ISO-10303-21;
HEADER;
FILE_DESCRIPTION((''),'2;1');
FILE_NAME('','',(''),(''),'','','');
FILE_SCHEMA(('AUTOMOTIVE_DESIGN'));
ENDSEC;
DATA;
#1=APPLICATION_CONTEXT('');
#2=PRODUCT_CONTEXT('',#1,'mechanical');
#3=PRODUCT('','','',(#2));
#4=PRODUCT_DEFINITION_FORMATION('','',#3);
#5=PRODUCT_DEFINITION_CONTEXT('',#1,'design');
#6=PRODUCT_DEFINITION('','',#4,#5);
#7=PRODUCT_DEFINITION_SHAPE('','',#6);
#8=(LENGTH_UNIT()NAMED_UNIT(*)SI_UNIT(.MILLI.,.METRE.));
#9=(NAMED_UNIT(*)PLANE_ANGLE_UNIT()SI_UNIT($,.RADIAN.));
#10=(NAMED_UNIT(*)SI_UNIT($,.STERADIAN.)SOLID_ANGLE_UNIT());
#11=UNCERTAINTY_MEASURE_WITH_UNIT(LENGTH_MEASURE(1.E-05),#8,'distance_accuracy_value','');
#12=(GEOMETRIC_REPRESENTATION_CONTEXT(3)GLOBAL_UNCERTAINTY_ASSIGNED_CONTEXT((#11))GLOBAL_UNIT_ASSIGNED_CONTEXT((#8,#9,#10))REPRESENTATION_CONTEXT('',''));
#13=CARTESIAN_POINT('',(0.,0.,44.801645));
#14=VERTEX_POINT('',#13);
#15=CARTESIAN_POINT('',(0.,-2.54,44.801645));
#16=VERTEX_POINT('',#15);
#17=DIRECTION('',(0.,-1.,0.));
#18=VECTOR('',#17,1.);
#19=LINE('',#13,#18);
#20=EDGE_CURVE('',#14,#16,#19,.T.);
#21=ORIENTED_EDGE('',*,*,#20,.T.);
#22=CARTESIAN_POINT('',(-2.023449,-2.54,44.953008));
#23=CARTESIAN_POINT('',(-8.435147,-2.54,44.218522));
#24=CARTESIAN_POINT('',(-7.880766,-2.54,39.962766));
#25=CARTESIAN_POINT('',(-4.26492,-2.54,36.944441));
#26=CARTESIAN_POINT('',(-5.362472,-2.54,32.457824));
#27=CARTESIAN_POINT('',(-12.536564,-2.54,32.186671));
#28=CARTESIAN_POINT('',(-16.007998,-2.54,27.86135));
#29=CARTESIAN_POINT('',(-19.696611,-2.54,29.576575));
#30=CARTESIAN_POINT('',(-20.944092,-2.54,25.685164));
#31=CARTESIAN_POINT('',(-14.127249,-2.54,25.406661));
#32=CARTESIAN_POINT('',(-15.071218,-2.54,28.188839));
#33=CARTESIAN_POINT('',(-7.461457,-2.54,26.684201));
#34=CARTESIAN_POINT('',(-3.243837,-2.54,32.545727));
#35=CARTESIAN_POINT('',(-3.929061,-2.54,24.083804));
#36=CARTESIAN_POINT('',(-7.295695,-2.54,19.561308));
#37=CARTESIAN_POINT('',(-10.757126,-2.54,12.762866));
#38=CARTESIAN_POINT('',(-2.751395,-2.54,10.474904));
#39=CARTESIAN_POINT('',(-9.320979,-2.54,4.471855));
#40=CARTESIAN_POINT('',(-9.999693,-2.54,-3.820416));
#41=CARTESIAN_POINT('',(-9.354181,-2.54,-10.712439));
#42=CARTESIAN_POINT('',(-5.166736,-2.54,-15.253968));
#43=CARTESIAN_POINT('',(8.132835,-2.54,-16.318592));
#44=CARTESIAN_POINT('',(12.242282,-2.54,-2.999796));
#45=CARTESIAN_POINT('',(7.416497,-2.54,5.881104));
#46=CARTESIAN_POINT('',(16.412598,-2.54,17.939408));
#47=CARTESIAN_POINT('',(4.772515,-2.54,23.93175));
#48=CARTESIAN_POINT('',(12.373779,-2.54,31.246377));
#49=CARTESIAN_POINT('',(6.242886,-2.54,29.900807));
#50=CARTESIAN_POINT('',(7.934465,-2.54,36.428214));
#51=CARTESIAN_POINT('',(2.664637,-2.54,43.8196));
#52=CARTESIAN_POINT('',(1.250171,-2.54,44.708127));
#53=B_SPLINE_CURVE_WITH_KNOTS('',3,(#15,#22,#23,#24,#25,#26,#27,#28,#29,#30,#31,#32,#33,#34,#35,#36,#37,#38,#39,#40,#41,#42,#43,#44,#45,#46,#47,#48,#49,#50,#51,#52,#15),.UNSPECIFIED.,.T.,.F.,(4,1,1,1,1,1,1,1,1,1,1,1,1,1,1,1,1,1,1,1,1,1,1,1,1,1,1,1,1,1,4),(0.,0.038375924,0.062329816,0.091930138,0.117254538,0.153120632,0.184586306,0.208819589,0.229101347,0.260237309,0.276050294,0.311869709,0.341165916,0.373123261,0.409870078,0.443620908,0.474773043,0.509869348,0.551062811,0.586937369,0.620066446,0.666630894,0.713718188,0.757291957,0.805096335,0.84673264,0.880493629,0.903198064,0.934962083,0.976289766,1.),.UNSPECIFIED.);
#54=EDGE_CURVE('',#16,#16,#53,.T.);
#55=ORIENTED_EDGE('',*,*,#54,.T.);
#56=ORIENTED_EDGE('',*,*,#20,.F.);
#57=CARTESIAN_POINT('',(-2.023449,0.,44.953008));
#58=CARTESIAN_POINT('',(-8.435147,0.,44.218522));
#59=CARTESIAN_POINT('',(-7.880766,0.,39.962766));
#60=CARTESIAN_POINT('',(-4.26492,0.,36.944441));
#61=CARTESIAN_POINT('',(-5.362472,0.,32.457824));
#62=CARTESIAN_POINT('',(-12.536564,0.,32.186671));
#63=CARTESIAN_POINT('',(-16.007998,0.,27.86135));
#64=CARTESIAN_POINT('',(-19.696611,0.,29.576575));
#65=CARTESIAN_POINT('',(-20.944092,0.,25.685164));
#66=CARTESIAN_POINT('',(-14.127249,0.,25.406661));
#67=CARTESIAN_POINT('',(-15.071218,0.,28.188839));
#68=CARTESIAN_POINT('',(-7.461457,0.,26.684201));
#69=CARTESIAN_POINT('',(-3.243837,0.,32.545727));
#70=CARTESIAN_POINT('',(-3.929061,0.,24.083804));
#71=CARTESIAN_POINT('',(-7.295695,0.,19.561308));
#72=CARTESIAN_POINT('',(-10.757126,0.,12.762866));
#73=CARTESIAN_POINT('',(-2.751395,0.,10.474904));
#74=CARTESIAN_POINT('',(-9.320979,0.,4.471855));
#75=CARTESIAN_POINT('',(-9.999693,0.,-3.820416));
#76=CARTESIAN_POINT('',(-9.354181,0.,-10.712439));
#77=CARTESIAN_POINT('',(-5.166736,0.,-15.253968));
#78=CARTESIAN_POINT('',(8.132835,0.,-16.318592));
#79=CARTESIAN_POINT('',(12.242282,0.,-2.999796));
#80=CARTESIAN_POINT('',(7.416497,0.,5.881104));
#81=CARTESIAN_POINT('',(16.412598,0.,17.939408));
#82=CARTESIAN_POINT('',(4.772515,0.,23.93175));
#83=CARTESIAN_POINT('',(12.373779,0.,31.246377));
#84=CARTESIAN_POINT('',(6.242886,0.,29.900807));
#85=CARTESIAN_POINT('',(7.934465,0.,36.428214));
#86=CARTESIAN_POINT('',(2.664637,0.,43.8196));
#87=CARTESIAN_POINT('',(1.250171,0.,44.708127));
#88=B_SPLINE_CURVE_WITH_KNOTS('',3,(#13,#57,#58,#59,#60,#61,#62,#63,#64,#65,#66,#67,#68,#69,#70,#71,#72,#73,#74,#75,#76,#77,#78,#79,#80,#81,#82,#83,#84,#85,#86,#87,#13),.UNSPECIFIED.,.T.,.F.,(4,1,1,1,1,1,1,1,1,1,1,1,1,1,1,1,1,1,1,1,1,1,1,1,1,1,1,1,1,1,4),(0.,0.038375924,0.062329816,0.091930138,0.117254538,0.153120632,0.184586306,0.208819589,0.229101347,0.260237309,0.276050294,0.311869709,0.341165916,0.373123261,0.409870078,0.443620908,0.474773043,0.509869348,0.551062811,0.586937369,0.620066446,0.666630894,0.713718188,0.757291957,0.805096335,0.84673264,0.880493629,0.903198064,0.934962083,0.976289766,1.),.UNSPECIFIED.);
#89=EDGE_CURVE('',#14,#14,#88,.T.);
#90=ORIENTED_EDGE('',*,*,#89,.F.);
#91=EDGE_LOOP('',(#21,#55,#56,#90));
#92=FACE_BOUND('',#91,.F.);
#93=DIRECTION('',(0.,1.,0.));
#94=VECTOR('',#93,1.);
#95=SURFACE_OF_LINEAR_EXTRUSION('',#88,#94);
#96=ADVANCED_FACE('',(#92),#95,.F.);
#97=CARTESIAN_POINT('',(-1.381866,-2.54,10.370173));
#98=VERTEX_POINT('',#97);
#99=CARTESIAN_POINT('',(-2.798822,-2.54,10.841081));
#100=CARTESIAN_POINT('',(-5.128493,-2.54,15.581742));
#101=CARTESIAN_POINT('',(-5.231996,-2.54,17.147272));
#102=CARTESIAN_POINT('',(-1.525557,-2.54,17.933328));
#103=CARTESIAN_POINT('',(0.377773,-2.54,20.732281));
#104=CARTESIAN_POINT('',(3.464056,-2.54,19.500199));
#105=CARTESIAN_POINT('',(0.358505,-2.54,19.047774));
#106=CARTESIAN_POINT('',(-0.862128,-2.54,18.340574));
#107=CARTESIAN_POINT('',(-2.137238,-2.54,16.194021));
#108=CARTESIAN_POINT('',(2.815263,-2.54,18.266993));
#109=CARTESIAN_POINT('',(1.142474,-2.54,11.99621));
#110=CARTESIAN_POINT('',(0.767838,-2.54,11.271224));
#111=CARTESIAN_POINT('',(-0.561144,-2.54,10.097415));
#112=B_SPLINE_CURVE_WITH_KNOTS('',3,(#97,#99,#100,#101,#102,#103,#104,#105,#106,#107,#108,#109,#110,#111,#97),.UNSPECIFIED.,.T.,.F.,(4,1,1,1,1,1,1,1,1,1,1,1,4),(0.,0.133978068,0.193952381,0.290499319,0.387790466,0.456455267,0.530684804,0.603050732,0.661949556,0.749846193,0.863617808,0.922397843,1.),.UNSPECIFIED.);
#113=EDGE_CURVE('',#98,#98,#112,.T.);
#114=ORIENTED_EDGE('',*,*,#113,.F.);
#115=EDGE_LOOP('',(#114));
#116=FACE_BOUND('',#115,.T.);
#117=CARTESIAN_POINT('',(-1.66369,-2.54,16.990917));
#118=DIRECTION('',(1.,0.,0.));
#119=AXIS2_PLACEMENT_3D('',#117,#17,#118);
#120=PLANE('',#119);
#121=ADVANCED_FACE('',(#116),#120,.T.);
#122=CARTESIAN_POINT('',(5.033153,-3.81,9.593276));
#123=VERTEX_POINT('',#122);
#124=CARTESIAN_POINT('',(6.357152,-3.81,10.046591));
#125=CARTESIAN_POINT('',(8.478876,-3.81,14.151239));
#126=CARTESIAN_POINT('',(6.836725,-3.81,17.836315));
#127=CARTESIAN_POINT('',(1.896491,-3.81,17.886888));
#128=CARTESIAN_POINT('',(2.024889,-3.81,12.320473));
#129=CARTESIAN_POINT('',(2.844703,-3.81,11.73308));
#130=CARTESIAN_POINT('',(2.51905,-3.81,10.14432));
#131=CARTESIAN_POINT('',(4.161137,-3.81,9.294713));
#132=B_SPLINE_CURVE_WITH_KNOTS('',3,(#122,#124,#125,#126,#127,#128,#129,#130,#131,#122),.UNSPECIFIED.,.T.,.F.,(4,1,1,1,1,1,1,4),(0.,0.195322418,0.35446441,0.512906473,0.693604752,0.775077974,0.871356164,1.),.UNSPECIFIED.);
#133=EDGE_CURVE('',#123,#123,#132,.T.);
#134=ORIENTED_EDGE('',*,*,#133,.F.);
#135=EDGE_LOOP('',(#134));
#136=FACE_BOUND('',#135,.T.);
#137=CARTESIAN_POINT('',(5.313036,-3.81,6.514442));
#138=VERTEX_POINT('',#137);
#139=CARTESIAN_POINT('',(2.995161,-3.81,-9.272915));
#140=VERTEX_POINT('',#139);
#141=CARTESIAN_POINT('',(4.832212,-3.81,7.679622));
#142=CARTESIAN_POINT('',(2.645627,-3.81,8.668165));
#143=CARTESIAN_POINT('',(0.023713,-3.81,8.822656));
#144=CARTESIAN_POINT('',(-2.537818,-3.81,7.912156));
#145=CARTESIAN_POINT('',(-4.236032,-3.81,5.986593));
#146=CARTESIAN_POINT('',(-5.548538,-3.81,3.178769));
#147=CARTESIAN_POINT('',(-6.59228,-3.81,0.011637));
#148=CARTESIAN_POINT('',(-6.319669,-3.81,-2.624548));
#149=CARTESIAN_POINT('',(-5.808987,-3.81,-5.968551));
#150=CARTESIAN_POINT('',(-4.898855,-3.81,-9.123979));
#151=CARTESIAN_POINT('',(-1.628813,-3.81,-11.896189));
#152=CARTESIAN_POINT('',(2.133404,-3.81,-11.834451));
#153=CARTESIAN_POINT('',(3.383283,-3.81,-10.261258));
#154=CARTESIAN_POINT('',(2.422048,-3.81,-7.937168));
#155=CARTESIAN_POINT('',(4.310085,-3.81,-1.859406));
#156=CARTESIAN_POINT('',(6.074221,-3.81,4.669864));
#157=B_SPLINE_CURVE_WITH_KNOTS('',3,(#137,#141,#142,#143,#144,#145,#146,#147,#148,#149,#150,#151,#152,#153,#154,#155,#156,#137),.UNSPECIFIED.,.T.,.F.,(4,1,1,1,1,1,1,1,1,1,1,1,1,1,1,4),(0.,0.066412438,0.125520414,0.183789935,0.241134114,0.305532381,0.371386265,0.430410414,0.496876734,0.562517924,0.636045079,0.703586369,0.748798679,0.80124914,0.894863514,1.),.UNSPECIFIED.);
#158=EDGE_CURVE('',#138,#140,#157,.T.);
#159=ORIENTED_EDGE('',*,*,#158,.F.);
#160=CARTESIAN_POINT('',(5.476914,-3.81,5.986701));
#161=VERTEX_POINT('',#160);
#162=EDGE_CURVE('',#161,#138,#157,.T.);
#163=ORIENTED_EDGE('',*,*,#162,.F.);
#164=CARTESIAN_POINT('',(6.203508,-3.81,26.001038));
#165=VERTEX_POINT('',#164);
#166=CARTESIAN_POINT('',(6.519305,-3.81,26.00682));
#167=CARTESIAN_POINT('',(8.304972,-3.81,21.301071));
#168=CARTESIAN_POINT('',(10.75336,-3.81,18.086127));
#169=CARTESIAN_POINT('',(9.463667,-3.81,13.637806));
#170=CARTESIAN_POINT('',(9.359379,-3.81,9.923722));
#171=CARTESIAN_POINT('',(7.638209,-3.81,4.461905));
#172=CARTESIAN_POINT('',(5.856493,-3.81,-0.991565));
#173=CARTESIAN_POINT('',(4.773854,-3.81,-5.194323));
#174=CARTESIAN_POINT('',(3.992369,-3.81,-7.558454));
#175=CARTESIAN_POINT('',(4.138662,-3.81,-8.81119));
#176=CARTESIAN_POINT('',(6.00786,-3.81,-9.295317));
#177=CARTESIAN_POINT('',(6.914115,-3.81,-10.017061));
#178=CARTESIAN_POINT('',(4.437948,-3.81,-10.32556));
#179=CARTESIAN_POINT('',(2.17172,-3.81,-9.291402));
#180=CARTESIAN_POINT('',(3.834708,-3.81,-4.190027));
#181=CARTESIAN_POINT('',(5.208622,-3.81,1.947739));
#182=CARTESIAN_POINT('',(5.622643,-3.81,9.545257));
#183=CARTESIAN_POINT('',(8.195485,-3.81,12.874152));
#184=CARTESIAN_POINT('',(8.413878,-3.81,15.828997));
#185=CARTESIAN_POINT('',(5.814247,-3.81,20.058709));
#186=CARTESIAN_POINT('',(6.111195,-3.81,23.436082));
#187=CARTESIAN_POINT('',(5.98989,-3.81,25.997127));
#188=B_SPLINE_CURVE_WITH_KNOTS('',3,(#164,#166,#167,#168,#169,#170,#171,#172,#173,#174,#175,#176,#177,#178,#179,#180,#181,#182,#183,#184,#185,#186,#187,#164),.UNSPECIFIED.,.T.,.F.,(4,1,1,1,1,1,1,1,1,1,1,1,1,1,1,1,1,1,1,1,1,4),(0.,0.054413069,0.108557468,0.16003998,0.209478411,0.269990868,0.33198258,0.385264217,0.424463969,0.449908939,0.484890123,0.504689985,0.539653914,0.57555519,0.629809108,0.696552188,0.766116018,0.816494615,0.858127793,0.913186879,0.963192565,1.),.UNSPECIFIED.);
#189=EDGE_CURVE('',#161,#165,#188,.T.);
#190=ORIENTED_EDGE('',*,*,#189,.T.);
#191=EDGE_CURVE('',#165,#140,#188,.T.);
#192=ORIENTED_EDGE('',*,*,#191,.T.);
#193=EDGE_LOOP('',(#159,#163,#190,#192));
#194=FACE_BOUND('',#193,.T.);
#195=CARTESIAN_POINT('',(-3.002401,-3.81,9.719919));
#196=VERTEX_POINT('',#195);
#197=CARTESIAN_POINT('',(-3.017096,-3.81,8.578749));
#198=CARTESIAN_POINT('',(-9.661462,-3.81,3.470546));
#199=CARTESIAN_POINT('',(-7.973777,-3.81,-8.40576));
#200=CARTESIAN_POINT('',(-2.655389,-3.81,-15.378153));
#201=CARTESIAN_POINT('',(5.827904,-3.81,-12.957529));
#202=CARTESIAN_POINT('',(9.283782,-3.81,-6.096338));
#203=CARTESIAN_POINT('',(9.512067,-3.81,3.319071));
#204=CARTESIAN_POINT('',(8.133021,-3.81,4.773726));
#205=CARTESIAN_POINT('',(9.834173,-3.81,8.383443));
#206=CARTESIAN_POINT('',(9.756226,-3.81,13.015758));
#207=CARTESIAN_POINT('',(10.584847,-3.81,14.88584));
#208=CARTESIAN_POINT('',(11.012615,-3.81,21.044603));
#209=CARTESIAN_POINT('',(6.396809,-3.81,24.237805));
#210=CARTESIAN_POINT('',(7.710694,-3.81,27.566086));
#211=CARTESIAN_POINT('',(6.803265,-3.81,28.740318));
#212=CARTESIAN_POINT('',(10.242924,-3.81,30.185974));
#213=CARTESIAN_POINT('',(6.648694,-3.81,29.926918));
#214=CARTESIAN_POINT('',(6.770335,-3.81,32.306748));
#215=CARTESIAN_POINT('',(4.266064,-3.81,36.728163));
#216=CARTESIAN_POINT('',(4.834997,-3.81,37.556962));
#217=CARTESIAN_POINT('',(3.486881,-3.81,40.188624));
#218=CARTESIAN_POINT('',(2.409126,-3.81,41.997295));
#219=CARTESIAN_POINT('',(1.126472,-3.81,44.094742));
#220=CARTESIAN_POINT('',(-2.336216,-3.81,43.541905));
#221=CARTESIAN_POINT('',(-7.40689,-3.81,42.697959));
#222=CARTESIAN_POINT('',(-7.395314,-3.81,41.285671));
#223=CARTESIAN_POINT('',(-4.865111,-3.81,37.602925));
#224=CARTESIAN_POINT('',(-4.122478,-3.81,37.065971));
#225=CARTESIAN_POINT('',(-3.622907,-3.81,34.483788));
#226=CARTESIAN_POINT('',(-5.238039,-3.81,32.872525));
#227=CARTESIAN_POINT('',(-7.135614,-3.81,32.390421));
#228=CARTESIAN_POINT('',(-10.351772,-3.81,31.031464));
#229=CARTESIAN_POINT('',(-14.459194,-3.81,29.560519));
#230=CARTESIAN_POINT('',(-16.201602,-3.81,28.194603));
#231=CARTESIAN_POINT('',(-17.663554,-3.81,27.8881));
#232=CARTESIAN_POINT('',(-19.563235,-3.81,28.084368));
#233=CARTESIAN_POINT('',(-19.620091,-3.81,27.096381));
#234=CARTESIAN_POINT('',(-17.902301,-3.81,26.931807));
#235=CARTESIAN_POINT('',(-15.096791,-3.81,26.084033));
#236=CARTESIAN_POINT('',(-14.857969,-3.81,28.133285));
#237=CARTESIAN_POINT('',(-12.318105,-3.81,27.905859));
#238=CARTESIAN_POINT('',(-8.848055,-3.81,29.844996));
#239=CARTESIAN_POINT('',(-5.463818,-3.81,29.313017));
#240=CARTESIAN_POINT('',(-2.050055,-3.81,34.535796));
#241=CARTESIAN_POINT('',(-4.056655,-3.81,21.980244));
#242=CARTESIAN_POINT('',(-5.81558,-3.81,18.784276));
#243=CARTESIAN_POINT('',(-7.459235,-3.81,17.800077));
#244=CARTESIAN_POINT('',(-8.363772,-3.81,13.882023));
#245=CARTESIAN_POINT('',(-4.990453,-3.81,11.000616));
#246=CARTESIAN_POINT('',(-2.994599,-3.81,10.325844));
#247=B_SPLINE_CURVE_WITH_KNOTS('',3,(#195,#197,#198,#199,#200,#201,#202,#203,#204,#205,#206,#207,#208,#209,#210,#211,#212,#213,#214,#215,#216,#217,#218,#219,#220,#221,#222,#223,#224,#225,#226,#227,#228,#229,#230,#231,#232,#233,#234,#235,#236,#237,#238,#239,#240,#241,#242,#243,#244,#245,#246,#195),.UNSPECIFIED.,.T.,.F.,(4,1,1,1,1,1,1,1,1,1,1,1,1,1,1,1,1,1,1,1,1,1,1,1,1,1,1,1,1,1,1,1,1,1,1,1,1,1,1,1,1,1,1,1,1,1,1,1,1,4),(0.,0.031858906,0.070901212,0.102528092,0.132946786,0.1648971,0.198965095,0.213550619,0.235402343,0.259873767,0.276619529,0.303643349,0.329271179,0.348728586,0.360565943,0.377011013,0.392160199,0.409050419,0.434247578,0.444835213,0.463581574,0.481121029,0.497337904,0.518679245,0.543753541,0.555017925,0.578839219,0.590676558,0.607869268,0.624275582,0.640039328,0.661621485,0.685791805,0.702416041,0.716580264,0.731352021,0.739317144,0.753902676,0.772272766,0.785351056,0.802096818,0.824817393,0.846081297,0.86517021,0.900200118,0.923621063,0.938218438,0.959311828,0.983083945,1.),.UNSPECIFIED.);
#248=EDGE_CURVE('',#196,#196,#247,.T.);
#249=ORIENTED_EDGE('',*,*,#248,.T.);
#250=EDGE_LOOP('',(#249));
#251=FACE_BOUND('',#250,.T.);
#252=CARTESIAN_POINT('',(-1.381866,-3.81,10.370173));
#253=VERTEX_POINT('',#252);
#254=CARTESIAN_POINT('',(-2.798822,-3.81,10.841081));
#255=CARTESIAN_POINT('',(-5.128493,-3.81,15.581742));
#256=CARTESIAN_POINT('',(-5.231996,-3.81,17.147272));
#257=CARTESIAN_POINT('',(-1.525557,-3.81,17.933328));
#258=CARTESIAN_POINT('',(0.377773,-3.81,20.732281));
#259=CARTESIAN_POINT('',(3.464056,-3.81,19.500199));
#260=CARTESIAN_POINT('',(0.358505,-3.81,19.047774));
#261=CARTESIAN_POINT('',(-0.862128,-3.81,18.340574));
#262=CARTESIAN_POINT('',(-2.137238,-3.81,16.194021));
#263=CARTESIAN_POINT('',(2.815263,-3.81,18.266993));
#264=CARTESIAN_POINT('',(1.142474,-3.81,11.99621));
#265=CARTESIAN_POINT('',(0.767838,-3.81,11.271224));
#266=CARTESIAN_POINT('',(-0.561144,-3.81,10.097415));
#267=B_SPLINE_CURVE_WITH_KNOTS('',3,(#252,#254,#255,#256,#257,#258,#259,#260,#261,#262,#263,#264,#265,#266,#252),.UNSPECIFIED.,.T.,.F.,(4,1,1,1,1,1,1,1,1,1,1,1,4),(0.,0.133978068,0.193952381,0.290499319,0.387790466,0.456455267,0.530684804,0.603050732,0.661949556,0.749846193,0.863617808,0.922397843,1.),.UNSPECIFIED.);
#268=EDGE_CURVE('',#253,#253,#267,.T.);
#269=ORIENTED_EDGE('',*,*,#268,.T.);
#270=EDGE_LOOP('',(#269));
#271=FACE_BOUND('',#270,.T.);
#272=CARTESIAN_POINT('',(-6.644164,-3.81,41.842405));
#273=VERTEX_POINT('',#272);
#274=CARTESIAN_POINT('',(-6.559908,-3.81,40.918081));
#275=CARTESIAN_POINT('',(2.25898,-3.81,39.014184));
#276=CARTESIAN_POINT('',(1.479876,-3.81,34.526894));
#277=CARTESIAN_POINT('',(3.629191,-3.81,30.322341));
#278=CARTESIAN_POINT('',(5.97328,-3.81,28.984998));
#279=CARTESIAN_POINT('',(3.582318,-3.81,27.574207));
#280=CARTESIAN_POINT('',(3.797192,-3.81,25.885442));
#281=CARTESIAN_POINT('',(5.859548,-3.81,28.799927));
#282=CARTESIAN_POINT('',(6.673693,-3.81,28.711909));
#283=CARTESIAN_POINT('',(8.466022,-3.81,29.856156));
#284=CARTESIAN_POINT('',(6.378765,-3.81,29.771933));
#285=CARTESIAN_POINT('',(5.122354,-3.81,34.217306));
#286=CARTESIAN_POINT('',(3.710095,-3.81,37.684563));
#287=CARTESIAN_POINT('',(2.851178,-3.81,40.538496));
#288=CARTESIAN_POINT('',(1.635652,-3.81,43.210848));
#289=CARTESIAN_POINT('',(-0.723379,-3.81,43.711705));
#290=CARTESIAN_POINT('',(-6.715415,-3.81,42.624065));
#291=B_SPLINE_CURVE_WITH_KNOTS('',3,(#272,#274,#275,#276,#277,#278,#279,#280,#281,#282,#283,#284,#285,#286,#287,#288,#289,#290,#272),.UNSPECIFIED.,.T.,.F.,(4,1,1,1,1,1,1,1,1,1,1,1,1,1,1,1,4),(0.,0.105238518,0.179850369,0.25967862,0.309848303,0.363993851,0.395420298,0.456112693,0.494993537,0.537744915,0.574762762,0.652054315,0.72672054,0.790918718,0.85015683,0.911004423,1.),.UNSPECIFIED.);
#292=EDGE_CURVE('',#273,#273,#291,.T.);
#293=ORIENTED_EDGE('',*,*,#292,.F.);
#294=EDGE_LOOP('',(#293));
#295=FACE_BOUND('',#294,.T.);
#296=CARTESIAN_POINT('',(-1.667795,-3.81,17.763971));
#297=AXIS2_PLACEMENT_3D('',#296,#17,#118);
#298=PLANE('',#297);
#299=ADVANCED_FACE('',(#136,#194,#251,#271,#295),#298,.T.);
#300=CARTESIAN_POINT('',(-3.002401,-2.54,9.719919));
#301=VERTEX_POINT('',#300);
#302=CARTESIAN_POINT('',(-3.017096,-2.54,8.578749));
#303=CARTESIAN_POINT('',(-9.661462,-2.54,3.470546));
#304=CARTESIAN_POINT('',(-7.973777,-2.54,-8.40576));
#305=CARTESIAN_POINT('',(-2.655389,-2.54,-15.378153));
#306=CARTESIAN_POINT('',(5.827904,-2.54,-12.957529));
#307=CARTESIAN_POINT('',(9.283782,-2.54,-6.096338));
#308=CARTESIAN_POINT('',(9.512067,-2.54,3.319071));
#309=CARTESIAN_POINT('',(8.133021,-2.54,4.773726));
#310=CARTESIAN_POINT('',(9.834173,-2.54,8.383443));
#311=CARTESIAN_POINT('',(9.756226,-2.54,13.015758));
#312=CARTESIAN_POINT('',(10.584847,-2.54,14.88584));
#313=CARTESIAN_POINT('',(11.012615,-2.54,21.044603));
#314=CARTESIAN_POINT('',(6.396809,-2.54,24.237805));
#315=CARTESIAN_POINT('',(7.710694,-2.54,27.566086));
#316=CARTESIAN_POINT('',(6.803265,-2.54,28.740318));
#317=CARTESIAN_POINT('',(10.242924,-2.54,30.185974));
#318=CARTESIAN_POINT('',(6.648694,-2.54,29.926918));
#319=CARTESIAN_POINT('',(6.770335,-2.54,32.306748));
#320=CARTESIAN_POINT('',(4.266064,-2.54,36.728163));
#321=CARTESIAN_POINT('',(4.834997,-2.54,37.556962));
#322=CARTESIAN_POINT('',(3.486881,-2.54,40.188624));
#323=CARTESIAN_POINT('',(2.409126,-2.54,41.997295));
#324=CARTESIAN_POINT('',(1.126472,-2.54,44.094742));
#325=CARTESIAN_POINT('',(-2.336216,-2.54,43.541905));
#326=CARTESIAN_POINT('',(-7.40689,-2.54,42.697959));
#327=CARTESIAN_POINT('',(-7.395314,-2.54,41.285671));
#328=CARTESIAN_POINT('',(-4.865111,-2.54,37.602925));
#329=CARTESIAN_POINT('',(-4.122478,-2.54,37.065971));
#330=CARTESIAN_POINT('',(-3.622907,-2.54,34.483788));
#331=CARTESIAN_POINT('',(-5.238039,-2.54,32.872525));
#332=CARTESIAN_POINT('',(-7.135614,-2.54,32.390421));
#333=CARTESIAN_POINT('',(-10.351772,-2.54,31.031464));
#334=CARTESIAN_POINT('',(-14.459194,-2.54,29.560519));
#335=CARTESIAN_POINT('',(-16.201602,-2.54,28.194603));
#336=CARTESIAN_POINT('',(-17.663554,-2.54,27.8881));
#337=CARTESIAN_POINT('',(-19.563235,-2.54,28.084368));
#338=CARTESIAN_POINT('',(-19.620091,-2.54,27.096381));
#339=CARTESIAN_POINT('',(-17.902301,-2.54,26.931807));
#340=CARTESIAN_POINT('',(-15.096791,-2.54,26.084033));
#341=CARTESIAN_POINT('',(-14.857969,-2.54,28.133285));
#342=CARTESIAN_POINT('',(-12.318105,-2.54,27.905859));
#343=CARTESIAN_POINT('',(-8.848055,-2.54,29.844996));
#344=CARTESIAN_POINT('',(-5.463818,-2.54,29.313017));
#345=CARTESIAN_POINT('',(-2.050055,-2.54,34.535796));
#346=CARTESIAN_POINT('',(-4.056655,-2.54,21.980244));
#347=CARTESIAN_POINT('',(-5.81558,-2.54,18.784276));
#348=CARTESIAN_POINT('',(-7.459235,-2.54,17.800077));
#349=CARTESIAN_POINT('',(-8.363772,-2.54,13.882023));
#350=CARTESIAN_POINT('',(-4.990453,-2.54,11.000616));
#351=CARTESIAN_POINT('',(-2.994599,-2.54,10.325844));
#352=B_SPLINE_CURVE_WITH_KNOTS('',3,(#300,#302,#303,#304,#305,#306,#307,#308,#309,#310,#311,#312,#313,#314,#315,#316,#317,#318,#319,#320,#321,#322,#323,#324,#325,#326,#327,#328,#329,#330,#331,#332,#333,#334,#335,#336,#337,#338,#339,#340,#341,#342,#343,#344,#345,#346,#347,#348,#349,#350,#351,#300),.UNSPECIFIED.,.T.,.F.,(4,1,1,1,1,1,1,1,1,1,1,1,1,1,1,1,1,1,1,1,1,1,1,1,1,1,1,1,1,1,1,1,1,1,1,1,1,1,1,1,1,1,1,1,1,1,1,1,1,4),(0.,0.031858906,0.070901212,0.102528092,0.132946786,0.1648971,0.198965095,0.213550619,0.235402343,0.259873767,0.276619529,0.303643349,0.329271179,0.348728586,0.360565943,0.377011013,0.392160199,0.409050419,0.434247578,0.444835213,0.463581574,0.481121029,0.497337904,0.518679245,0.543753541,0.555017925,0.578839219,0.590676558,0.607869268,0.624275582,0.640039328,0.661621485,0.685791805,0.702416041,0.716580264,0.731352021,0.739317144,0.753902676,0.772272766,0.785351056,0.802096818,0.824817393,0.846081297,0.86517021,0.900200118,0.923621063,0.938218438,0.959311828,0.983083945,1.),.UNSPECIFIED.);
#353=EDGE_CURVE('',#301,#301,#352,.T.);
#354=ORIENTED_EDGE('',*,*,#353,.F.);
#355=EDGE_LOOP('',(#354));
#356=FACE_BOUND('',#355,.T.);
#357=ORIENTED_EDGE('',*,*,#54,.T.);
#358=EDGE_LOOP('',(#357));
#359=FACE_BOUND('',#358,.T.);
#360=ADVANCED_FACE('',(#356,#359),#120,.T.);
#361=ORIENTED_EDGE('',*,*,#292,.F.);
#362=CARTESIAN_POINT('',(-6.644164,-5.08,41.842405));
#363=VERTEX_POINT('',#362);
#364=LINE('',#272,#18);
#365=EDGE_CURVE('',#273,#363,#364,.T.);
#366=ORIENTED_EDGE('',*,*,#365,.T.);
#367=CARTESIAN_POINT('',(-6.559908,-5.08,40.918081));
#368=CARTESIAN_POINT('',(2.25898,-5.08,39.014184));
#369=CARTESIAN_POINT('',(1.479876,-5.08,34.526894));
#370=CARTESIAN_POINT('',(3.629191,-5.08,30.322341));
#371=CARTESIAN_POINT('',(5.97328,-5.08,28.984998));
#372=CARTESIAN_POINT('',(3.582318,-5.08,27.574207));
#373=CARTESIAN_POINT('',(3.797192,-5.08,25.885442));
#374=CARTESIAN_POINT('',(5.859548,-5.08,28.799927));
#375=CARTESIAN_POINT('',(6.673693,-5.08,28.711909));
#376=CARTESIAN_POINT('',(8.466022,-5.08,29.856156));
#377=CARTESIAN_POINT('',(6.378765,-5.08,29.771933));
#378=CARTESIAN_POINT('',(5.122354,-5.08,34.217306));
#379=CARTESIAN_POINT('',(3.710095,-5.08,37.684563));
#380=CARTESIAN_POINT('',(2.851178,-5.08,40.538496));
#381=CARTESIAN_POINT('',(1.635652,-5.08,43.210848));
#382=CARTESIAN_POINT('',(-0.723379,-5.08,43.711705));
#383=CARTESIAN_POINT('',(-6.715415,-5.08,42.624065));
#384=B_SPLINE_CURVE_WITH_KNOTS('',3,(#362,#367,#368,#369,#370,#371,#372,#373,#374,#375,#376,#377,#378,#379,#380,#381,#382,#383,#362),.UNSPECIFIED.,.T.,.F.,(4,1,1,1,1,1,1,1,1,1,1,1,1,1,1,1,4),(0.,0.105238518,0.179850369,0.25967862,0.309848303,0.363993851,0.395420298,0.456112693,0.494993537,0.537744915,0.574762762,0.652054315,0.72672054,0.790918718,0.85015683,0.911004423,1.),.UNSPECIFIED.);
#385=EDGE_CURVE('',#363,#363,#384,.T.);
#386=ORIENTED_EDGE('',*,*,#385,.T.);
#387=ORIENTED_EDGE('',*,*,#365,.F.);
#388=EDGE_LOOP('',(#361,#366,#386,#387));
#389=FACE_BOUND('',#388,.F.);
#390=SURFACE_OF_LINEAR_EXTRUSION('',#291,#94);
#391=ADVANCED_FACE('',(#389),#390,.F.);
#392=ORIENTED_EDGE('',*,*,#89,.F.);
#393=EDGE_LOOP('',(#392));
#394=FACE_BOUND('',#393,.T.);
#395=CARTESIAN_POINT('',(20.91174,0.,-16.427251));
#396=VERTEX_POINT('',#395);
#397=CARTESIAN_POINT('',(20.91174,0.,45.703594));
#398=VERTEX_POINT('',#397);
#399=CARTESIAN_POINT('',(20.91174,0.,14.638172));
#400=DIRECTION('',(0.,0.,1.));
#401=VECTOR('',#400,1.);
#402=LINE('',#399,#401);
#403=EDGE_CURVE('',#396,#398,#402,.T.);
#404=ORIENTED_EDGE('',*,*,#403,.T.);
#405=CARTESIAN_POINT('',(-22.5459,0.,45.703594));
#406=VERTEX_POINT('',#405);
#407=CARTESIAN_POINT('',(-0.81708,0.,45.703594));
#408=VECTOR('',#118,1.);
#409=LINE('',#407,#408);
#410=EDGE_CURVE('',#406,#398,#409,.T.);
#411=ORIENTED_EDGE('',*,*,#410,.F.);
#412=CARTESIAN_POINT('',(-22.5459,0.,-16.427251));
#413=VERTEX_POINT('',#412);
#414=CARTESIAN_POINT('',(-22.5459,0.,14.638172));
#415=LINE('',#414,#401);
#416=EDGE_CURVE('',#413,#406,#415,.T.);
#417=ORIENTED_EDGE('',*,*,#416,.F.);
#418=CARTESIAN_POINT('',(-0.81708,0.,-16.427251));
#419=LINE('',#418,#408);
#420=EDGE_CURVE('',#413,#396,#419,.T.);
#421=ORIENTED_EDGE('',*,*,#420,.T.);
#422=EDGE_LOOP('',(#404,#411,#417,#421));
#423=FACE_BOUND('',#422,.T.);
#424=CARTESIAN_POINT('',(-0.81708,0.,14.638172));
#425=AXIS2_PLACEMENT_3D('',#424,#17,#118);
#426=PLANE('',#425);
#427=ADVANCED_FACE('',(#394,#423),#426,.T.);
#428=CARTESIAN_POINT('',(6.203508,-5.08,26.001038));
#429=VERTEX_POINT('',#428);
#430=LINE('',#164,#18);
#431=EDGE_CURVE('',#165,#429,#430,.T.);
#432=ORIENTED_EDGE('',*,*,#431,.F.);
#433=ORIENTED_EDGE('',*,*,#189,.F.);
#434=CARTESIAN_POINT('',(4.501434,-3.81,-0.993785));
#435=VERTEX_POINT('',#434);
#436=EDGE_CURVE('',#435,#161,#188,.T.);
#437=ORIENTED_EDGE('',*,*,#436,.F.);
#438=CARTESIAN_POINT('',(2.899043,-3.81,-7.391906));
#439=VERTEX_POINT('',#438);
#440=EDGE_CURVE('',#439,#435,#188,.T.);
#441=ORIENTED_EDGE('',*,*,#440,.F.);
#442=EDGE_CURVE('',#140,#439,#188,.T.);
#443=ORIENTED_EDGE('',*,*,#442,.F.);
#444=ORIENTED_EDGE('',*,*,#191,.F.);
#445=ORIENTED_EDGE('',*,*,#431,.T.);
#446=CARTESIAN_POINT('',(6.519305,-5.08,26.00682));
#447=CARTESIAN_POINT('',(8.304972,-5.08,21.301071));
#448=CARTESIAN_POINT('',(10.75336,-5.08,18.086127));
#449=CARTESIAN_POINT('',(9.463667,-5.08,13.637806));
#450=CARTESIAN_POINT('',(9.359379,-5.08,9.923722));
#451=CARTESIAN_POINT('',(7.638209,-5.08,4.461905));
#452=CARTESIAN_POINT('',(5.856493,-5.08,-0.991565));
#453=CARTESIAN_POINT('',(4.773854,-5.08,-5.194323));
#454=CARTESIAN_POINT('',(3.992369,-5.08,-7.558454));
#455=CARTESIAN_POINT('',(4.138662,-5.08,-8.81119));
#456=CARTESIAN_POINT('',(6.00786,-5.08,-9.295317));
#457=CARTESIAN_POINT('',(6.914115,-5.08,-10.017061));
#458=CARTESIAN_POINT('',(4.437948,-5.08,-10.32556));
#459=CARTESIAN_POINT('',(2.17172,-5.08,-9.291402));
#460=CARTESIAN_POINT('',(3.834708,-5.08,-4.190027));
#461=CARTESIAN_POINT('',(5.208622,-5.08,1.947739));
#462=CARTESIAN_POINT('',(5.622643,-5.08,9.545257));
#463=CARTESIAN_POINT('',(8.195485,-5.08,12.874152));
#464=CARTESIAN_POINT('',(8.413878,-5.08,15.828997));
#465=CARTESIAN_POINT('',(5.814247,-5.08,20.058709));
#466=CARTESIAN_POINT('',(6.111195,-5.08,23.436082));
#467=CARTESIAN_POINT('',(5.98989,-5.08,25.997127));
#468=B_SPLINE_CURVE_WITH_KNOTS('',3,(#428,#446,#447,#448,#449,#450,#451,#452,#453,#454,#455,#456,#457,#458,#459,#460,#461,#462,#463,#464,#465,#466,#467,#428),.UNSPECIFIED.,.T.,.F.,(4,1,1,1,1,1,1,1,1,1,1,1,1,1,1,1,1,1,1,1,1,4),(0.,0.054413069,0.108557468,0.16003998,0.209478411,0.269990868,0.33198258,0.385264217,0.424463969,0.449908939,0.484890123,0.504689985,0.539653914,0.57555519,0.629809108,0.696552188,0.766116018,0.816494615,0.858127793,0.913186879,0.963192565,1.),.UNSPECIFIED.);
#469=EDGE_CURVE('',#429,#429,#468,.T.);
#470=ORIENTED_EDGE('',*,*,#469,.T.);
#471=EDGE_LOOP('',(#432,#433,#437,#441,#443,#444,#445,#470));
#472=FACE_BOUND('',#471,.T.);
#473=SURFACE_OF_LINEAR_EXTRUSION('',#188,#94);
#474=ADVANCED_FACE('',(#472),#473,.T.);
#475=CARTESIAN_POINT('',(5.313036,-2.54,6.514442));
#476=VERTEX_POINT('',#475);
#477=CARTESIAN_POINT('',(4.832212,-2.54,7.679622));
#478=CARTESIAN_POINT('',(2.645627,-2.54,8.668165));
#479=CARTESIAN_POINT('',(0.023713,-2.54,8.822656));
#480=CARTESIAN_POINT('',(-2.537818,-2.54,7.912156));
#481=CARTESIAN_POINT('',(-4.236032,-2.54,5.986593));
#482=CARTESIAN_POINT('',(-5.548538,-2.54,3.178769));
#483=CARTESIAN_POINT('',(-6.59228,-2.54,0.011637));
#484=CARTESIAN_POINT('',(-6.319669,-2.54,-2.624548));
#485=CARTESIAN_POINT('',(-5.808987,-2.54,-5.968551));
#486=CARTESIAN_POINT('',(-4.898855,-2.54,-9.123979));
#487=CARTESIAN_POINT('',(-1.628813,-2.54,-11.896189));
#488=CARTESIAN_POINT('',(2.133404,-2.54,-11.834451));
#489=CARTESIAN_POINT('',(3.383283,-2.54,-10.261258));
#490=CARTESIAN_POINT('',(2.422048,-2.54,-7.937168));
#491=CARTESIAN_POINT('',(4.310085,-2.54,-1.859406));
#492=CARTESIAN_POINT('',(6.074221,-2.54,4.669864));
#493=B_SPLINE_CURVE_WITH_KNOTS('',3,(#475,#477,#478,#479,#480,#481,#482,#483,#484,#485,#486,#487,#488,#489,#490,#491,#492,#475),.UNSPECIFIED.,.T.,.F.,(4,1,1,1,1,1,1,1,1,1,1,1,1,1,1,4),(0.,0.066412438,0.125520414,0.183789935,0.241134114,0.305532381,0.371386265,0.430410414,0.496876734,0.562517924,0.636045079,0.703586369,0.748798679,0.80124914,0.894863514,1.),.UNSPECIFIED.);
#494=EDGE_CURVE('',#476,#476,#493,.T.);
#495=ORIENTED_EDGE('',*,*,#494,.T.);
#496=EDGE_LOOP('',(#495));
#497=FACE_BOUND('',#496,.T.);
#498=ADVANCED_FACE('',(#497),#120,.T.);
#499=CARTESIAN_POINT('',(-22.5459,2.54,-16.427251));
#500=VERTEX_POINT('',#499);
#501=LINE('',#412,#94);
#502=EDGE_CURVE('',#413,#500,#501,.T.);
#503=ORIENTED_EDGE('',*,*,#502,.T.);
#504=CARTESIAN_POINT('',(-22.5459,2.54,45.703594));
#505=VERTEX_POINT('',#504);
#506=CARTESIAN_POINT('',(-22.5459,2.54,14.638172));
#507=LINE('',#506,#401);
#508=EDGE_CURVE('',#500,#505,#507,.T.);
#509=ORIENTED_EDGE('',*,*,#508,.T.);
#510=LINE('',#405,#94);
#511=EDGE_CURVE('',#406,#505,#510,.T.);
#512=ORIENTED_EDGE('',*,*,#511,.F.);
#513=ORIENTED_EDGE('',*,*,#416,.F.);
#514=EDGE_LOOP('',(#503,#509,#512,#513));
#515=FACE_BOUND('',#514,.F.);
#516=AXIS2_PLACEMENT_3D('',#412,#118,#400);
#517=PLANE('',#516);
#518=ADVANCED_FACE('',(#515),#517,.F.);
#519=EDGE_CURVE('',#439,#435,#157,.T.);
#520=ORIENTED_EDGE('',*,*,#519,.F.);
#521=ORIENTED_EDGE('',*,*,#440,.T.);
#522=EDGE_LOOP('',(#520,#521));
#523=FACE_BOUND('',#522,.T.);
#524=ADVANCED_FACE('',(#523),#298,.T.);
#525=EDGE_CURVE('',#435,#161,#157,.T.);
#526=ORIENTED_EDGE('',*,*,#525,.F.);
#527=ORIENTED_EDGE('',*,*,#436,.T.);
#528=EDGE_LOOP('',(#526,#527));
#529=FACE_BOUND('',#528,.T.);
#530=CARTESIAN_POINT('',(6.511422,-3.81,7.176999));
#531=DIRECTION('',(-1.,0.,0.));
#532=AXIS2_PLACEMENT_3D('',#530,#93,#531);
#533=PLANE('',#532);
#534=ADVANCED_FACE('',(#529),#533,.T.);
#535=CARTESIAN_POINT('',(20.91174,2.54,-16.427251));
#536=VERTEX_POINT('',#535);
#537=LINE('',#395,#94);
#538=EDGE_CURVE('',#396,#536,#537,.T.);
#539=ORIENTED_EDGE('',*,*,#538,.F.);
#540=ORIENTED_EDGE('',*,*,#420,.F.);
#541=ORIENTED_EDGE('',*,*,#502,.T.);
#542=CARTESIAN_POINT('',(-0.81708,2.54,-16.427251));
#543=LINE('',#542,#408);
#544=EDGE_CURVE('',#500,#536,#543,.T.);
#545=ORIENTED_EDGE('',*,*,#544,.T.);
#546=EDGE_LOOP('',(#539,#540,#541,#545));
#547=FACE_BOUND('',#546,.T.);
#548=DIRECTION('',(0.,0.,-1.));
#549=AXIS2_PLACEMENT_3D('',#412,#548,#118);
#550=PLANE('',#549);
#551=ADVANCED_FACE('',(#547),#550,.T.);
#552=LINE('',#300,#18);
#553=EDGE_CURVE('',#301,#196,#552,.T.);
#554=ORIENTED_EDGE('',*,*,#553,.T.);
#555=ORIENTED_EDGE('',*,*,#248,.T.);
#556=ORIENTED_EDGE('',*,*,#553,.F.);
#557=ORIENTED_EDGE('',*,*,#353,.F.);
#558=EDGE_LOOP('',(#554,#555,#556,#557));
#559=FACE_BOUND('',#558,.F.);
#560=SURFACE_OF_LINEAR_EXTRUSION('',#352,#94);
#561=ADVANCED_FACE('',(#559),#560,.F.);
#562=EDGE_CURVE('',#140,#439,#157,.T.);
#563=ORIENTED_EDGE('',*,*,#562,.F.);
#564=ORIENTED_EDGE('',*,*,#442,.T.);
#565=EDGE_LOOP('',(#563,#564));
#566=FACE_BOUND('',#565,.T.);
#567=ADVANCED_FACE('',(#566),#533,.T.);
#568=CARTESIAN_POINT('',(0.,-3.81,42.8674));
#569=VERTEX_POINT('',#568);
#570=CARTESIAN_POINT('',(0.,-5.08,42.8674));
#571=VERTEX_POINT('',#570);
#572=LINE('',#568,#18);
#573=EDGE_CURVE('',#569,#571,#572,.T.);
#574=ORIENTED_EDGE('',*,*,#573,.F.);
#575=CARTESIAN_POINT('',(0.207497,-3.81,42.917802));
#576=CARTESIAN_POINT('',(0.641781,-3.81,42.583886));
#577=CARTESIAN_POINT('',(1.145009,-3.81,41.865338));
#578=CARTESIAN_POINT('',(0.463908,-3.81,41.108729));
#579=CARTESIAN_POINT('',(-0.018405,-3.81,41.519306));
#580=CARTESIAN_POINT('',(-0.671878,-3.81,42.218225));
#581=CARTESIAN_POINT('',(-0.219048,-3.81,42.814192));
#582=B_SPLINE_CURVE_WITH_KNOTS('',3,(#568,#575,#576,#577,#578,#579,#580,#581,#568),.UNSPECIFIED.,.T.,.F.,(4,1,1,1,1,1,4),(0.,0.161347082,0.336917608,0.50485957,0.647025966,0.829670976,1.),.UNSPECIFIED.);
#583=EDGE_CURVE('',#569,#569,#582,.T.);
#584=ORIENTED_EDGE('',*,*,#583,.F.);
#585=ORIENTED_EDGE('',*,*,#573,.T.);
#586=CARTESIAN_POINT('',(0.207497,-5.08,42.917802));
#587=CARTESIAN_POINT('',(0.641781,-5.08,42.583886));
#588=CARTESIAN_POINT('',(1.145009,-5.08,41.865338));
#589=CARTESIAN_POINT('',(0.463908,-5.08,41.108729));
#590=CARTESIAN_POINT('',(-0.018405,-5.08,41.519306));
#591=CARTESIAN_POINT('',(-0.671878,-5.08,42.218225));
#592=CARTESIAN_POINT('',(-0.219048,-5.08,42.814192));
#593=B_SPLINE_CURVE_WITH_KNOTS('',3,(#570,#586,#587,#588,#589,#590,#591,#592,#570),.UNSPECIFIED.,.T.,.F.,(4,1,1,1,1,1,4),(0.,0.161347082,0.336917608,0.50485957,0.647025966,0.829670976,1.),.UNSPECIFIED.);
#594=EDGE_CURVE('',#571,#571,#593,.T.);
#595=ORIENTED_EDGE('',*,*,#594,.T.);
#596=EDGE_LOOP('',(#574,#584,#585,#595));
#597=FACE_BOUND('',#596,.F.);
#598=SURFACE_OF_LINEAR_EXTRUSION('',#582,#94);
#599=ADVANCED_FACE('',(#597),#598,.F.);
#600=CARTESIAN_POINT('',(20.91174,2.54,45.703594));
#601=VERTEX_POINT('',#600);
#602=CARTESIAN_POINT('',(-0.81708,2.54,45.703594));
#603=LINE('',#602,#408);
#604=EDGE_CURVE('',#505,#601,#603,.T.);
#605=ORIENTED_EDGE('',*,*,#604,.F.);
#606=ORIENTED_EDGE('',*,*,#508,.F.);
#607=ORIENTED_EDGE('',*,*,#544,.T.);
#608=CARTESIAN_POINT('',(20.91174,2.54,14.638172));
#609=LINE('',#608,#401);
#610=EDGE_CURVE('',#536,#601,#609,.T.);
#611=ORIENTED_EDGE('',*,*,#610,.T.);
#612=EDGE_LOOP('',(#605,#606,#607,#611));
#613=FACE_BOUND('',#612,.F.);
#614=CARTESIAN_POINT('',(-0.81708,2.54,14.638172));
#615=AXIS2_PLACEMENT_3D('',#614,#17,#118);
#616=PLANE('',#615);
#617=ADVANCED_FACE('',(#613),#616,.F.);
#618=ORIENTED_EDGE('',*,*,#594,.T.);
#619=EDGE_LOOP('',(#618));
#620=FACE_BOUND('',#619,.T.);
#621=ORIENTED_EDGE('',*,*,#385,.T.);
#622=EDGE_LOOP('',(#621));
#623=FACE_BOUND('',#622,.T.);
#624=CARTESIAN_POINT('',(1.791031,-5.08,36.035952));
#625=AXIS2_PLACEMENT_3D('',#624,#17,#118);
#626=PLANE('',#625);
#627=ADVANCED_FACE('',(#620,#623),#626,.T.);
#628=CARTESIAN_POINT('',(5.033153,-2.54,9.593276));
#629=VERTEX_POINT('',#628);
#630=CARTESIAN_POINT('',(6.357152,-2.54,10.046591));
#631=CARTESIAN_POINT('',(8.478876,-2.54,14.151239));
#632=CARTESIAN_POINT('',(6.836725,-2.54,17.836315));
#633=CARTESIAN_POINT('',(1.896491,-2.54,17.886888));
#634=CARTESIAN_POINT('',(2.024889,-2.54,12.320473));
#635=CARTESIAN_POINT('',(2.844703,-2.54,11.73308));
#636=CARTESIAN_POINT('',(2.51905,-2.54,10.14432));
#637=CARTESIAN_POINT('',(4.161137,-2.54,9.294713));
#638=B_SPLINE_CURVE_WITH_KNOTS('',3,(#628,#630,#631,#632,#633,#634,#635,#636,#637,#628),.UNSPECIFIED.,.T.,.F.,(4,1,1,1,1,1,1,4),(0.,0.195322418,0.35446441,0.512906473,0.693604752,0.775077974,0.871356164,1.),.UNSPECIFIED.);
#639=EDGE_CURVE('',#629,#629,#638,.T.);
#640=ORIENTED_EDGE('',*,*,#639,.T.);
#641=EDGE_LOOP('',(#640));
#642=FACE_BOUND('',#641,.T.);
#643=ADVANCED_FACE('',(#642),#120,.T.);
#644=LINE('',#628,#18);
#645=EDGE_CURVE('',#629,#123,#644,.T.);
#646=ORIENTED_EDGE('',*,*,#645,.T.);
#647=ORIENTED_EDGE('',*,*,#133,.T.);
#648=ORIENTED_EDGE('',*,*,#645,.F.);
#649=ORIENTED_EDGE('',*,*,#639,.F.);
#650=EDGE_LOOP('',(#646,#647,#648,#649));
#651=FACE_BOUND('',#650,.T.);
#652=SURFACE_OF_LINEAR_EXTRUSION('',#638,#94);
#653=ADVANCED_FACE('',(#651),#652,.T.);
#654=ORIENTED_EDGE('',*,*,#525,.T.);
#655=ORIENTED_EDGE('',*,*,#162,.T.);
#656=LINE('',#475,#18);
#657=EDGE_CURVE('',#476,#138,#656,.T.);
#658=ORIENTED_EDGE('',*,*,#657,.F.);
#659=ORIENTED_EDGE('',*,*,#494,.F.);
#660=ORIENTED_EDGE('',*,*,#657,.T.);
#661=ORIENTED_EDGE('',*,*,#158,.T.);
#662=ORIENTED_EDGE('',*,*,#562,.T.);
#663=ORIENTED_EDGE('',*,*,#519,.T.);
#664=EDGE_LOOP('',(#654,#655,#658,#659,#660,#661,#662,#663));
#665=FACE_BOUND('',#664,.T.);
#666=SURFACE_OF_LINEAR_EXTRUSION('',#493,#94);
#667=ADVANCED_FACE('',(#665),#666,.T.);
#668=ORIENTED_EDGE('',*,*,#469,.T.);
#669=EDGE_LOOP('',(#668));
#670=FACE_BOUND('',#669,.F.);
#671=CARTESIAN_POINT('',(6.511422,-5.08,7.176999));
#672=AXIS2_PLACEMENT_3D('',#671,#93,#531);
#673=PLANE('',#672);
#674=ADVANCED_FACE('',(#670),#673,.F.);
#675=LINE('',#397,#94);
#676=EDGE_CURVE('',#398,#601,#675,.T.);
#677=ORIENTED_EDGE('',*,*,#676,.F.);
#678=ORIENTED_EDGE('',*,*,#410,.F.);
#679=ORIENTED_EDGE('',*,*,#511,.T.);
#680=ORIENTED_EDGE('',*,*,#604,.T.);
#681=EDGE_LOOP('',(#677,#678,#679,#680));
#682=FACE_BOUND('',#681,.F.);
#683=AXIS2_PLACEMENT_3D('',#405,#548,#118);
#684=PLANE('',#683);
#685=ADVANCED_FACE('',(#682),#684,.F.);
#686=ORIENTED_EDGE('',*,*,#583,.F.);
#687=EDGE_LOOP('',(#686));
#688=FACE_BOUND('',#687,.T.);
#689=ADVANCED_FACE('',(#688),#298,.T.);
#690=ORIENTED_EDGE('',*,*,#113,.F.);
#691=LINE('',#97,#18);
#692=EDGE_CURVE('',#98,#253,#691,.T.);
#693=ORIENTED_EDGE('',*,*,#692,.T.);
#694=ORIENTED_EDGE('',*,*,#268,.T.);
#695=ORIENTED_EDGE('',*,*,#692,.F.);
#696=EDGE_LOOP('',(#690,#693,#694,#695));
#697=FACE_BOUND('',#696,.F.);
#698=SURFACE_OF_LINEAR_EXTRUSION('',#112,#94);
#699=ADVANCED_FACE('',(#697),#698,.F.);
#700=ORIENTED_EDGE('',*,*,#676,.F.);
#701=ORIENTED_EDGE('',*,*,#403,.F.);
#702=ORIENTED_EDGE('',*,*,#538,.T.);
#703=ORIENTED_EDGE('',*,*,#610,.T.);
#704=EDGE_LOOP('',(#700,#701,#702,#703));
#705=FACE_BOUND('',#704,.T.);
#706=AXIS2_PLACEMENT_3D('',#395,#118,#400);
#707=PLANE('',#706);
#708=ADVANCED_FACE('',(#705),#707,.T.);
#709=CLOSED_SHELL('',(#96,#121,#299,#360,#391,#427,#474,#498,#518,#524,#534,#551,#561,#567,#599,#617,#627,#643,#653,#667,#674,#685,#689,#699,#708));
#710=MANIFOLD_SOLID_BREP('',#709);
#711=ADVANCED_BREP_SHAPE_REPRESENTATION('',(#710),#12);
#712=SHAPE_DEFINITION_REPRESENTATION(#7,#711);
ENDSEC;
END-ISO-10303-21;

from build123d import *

# Parameters (mm, degrees)
F0_W     = 43.457640335
F0_H     = 62.1308442205
F1_DEPTH = 2.54
F3_DEPTH = 2.54
F5_DEPTH = 1.27
F7_DEPTH = 1.27


with BuildPart() as f1:
    # F0 (on Front) → F1 (new body)
    with BuildSketch(Plane.XZ):
        with Locations((-0.8170800284, 14.6381715313)):
            Rectangle(F0_W, F0_H)
    extrude(amount=-F1_DEPTH)

    # F2 (on face) → F3 (join)
    with BuildSketch(Plane.XZ):
        with BuildLine():
            add(Edge.make_bspline(
                [(0, 44.8016449809), (-2.0234491161, 44.9530078931), (-8.435147304, 44.2185218635), (-7.8807655018, 39.962765512), (-4.2649202858, 36.9444405799), (-5.3624723918, 32.4578236316), (-12.5365644835, 32.186671414), (-16.0079976728, 27.8613503581), (-19.696611489, 29.5765748346), (-20.9440920945, 25.6851641245), (-14.127248545, 25.4066612266), (-15.0712183051, 28.1888386641), (-7.4614569559, 26.6842009068), (-3.2438366293, 32.5457270387), (-3.9290610175, 24.083803927), (-7.2956947474, 19.5613075717), (-10.7571260537, 12.762866108), (-2.751395367, 10.4749042524), (-9.3209790943, 4.4718546339), (-9.9996930084, -3.8204161669), (-9.354181094, -10.7124391217), (-5.1667355477, -15.2539676182), (8.1328352337, -16.3185915256), (12.2422820391, -2.9997955357), (7.4164966592, 5.8811042994), (16.4125980164, 17.9394080175), (4.772515125, 23.9317503054), (12.3737787811, 31.2463774086), (6.2428860121, 29.9008066672), (7.9344650366, 36.4282144115), (2.6646372177, 43.8195999359), (1.2501706057, 44.7081267095), (0, 44.8016449809)],
                knots=[0, 0, 0, 0, 0.0383759243, 0.0623298158, 0.0919301384, 0.1172545377, 0.153120632, 0.1845863062, 0.2088195886, 0.2291013471, 0.2602373093, 0.2760502939, 0.3118697092, 0.3411659157, 0.3731232614, 0.4098700779, 0.4436209076, 0.4747730427, 0.5098693481, 0.5510628112, 0.5869373693, 0.620066446, 0.6666308944, 0.7137181878, 0.7572919571, 0.8050963348, 0.8467326401, 0.8804936293, 0.903198064, 0.9349620834, 0.9762897658, 1, 1, 1, 1], degree=3))
        make_face()
    extrude(amount=F3_DEPTH)

    # F4 (on face) → F5 (join)
    with BuildSketch(Plane.XZ.offset(2.54)):
        with BuildLine():
            add(Edge.make_bspline(
                [(-3.0024009757, 9.7199194133), (-3.0170955966, 8.5787493555), (-9.6614622337, 3.4705459383), (-7.9737765132, -8.4057598686), (-2.6553886225, -15.3781533259), (5.8279038938, -12.9575285379), (9.2837823193, -6.0963381898), (9.5120668979, 3.3190707199), (8.1330208214, 4.7737262245), (9.8341730268, 8.3834425816), (9.7562258646, 13.0157583339), (10.5848466443, 14.8858401458), (11.01261471, 21.0446032113), (6.3968094168, 24.2378050253), (7.7106940585, 27.5660860698), (6.8032649527, 28.7403184579), (10.2429241226, 30.1859740233), (6.6486938317, 29.9269183277), (6.7703351805, 32.3067484561), (4.2660644658, 36.7281631703), (4.8349967456, 37.5569622914), (3.486880688, 40.1886238755), (2.4091259111, 41.9972952325), (1.126472292, 44.0947422381), (-2.3362161064, 43.5419054265), (-7.4068895642, 42.6979590327), (-7.3953137697, 41.2856711626), (-4.8651108859, 37.6029254885), (-4.1224781101, 37.0659706714), (-3.6229074584, 34.4837884557), (-5.2380391631, 32.8725253834), (-7.1356136187, 32.3904205805), (-10.3517715798, 31.031464356), (-14.459193652, 29.5605192486), (-16.2016015305, 28.1946028092), (-17.6635544345, 27.8880997683), (-19.5632346815, 28.0843684096), (-19.6200914979, 27.0963813147), (-17.9023009458, 26.9318071319), (-15.0967912551, 26.0840329148), (-14.8579688231, 28.1332846649), (-12.3181051652, 27.9058593538), (-8.8480549939, 29.8449961324), (-5.4638176864, 29.3130170298), (-2.0500550467, 34.5357960631), (-4.056654761, 21.9802440452), (-5.8155797044, 18.784276183), (-7.4592347174, 17.8000767835), (-8.3637722939, 13.8820230634), (-4.9904533778, 11.0006159423), (-2.9945986043, 10.3258440317), (-3.0024009757, 9.7199194133)],
                knots=[0, 0, 0, 0, 0.0318589059, 0.0709012117, 0.1025280922, 0.1329467856, 0.1648970997, 0.1989650948, 0.2135506187, 0.235402343, 0.2598737674, 0.2766195288, 0.3036433485, 0.3292711791, 0.3487285862, 0.3605659428, 0.3770110132, 0.392160199, 0.4090504193, 0.4342475777, 0.4448352128, 0.4635815735, 0.481121029, 0.4973379045, 0.5186792447, 0.5437535406, 0.5550179246, 0.5788392186, 0.5906765576, 0.6078692675, 0.6242755818, 0.6400393279, 0.6616214849, 0.6857918046, 0.7024160409, 0.7165802637, 0.7313520206, 0.7393171443, 0.7539026757, 0.7722727656, 0.7853510559, 0.8020968181, 0.8248173926, 0.846081297, 0.8651702095, 0.9002001181, 0.9236210632, 0.938218438, 0.9593118283, 0.983083945, 1, 1, 1, 1], degree=3))
        make_face()
        with BuildLine():
            add(Edge.make_bspline(
                [(5.313036032, 6.5144421533), (4.8322118861, 7.6796221138), (2.6456267897, 8.6681647151), (0.0237131583, 8.8226559461), (-2.5378183219, 7.9121562694), (-4.236031538, 5.9865931117), (-5.5485375997, 3.1787687997), (-6.5922797958, 0.0116371121), (-6.3196688316, -2.6245480834), (-5.8089866307, -5.9685510504), (-4.8988548064, -9.1239789062), (-1.628813088, -11.8961886915), (2.1334038374, -11.8344512877), (3.383282787, -10.2612576214), (2.4220477414, -7.9371684728), (4.3100851344, -1.8594055079), (6.0742211748, 4.6698640841), (5.313036032, 6.5144421533)],
                knots=[0, 0, 0, 0, 0.066412438, 0.1255204137, 0.1837899349, 0.2411341139, 0.3055323808, 0.3713862653, 0.4304104143, 0.4968767344, 0.5625179243, 0.6360450794, 0.7035863685, 0.7487986791, 0.8012491404, 0.894863514, 1, 1, 1, 1], degree=3))
        make_face(mode=Mode.SUBTRACT)
        with BuildLine():
            add(Edge.make_bspline(
                [(5.0331531093, 9.593276307), (6.3571520636, 10.0465910141), (8.4788757207, 14.1512393965), (6.8367254576, 17.8363149822), (1.8964908029, 17.8868884801), (2.0248889165, 12.3204729718), (2.8447034996, 11.7330798643), (2.5190497091, 10.1443201094), (4.1611369512, 9.2947128164), (5.0331531093, 9.593276307)],
                knots=[0, 0, 0, 0, 0.1953224177, 0.3544644096, 0.5129064732, 0.6936047521, 0.7750779738, 0.8713561641, 1, 1, 1, 1], degree=3))
        make_face(mode=Mode.SUBTRACT)
        with BuildLine():
            add(Edge.make_bspline(
                [(-1.3818661682, 10.3701725362), (-2.7988215571, 10.8410809041), (-5.1284925477, 15.5817420689), (-5.23199633, 17.1472721349), (-1.5255574373, 17.9333283065), (0.3777726656, 20.7322812464), (3.4640557016, 19.5001994336), (0.3585047827, 19.0477739793), (-0.8621277135, 18.3405742427), (-2.1372384294, 16.1940205529), (2.8152634626, 18.2669927275), (1.1424741562, 11.9962100888), (0.7678378926, 11.2712239098), (-0.5611438229, 10.0974151699), (-1.3818661682, 10.3701725362)],
                knots=[0, 0, 0, 0, 0.1339780684, 0.1939523806, 0.290499319, 0.3877904658, 0.4564552665, 0.530684804, 0.603050732, 0.6619495562, 0.7498461927, 0.863617808, 0.9223978431, 1, 1, 1, 1], degree=3))
        make_face(mode=Mode.SUBTRACT)
    extrude(amount=F5_DEPTH)

    # F6 (on face) → F7 (join)
    with BuildSketch(Plane.XZ.offset(3.81)):
        with BuildLine():
            add(Edge.make_bspline(
                [(-6.6441637464, 41.842404753), (-6.5599076669, 40.9180808027), (2.2589803596, 39.0141844643), (1.4798760154, 34.5268942936), (3.6291912869, 30.3223409096), (5.9732796252, 28.9849975332), (3.5823175901, 27.5742072008), (3.7971922831, 25.8854419532), (5.8595482751, 28.7999271993), (6.6736934761, 28.7119086301), (8.4660224103, 29.8561558237), (6.3787645155, 29.7719330631), (5.1223539679, 34.2173062243), (3.7100950584, 37.6845627428), (2.851178264, 40.5384962059), (1.635652076, 43.2108479913), (-0.7233792444, 43.7117054925), (-6.7154153994, 42.62406478), (-6.6441637464, 41.842404753)],
                knots=[0, 0, 0, 0, 0.1052385182, 0.1798503689, 0.2596786201, 0.3098483025, 0.3639938509, 0.3954202977, 0.4561126925, 0.4949935374, 0.5377449149, 0.574762762, 0.6520543153, 0.7267205396, 0.7909187177, 0.8501568301, 0.9110044234, 1, 1, 1, 1], degree=3))
        make_face()
        with BuildLine():
            add(Edge.make_bspline(
                [(0, 42.8673997521), (0.2074967723, 42.9178015614), (0.6417806438, 42.5838857472), (1.1450086807, 41.8653383641), (0.4639076309, 41.1087292812), (-0.0184046183, 41.5193057258), (-0.6718776678, 42.2182254116), (-0.2190477958, 42.8141921524), (0, 42.8673997521)],
                knots=[0, 0, 0, 0, 0.1613470819, 0.3369176079, 0.5048595696, 0.6470259659, 0.8296709763, 1, 1, 1, 1], degree=3))
        make_face(mode=Mode.SUBTRACT)
        with BuildLine():
            add(Edge.make_bspline(
                [(6.2035084702, 26.0010380298), (6.5193048728, 26.0068200195), (8.3049717656, 21.3010711904), (10.7533603555, 18.0861272701), (9.4636674447, 13.6378059436), (9.3593793159, 9.9237219546), (7.6382089833, 4.4619053273), (5.8564928037, -0.9915645163), (4.7738540816, -5.194322655), (3.9923691419, -7.5584538261), (4.1386616967, -8.8111904905), (6.0078602499, -9.2953165341), (6.9141151254, -10.0170606479), (4.4379479353, -10.3255595107), (2.1717202647, -9.2914017397), (3.8347082196, -4.190026507), (5.2086216528, 1.9477392443), (5.6226430804, 9.5452567433), (8.1954851762, 12.8741520149), (8.4138784106, 15.8289974523), (5.8142474358, 20.0587091533), (6.1111946155, 23.4360819398), (5.9898896487, 25.9971268331), (6.2035084702, 26.0010380298)],
                knots=[0, 0, 0, 0, 0.0544130686, 0.1085574684, 0.1600399795, 0.2094784108, 0.2699908681, 0.3319825797, 0.3852642166, 0.4244639692, 0.4499089388, 0.4848901229, 0.5046899848, 0.5396539141, 0.5755551903, 0.6298091077, 0.6965521881, 0.7661160181, 0.8164946153, 0.8581277933, 0.9131868795, 0.9631925649, 1, 1, 1, 1], degree=3))
        make_face()
    extrude(amount=F7_DEPTH)


solid = f1.part
